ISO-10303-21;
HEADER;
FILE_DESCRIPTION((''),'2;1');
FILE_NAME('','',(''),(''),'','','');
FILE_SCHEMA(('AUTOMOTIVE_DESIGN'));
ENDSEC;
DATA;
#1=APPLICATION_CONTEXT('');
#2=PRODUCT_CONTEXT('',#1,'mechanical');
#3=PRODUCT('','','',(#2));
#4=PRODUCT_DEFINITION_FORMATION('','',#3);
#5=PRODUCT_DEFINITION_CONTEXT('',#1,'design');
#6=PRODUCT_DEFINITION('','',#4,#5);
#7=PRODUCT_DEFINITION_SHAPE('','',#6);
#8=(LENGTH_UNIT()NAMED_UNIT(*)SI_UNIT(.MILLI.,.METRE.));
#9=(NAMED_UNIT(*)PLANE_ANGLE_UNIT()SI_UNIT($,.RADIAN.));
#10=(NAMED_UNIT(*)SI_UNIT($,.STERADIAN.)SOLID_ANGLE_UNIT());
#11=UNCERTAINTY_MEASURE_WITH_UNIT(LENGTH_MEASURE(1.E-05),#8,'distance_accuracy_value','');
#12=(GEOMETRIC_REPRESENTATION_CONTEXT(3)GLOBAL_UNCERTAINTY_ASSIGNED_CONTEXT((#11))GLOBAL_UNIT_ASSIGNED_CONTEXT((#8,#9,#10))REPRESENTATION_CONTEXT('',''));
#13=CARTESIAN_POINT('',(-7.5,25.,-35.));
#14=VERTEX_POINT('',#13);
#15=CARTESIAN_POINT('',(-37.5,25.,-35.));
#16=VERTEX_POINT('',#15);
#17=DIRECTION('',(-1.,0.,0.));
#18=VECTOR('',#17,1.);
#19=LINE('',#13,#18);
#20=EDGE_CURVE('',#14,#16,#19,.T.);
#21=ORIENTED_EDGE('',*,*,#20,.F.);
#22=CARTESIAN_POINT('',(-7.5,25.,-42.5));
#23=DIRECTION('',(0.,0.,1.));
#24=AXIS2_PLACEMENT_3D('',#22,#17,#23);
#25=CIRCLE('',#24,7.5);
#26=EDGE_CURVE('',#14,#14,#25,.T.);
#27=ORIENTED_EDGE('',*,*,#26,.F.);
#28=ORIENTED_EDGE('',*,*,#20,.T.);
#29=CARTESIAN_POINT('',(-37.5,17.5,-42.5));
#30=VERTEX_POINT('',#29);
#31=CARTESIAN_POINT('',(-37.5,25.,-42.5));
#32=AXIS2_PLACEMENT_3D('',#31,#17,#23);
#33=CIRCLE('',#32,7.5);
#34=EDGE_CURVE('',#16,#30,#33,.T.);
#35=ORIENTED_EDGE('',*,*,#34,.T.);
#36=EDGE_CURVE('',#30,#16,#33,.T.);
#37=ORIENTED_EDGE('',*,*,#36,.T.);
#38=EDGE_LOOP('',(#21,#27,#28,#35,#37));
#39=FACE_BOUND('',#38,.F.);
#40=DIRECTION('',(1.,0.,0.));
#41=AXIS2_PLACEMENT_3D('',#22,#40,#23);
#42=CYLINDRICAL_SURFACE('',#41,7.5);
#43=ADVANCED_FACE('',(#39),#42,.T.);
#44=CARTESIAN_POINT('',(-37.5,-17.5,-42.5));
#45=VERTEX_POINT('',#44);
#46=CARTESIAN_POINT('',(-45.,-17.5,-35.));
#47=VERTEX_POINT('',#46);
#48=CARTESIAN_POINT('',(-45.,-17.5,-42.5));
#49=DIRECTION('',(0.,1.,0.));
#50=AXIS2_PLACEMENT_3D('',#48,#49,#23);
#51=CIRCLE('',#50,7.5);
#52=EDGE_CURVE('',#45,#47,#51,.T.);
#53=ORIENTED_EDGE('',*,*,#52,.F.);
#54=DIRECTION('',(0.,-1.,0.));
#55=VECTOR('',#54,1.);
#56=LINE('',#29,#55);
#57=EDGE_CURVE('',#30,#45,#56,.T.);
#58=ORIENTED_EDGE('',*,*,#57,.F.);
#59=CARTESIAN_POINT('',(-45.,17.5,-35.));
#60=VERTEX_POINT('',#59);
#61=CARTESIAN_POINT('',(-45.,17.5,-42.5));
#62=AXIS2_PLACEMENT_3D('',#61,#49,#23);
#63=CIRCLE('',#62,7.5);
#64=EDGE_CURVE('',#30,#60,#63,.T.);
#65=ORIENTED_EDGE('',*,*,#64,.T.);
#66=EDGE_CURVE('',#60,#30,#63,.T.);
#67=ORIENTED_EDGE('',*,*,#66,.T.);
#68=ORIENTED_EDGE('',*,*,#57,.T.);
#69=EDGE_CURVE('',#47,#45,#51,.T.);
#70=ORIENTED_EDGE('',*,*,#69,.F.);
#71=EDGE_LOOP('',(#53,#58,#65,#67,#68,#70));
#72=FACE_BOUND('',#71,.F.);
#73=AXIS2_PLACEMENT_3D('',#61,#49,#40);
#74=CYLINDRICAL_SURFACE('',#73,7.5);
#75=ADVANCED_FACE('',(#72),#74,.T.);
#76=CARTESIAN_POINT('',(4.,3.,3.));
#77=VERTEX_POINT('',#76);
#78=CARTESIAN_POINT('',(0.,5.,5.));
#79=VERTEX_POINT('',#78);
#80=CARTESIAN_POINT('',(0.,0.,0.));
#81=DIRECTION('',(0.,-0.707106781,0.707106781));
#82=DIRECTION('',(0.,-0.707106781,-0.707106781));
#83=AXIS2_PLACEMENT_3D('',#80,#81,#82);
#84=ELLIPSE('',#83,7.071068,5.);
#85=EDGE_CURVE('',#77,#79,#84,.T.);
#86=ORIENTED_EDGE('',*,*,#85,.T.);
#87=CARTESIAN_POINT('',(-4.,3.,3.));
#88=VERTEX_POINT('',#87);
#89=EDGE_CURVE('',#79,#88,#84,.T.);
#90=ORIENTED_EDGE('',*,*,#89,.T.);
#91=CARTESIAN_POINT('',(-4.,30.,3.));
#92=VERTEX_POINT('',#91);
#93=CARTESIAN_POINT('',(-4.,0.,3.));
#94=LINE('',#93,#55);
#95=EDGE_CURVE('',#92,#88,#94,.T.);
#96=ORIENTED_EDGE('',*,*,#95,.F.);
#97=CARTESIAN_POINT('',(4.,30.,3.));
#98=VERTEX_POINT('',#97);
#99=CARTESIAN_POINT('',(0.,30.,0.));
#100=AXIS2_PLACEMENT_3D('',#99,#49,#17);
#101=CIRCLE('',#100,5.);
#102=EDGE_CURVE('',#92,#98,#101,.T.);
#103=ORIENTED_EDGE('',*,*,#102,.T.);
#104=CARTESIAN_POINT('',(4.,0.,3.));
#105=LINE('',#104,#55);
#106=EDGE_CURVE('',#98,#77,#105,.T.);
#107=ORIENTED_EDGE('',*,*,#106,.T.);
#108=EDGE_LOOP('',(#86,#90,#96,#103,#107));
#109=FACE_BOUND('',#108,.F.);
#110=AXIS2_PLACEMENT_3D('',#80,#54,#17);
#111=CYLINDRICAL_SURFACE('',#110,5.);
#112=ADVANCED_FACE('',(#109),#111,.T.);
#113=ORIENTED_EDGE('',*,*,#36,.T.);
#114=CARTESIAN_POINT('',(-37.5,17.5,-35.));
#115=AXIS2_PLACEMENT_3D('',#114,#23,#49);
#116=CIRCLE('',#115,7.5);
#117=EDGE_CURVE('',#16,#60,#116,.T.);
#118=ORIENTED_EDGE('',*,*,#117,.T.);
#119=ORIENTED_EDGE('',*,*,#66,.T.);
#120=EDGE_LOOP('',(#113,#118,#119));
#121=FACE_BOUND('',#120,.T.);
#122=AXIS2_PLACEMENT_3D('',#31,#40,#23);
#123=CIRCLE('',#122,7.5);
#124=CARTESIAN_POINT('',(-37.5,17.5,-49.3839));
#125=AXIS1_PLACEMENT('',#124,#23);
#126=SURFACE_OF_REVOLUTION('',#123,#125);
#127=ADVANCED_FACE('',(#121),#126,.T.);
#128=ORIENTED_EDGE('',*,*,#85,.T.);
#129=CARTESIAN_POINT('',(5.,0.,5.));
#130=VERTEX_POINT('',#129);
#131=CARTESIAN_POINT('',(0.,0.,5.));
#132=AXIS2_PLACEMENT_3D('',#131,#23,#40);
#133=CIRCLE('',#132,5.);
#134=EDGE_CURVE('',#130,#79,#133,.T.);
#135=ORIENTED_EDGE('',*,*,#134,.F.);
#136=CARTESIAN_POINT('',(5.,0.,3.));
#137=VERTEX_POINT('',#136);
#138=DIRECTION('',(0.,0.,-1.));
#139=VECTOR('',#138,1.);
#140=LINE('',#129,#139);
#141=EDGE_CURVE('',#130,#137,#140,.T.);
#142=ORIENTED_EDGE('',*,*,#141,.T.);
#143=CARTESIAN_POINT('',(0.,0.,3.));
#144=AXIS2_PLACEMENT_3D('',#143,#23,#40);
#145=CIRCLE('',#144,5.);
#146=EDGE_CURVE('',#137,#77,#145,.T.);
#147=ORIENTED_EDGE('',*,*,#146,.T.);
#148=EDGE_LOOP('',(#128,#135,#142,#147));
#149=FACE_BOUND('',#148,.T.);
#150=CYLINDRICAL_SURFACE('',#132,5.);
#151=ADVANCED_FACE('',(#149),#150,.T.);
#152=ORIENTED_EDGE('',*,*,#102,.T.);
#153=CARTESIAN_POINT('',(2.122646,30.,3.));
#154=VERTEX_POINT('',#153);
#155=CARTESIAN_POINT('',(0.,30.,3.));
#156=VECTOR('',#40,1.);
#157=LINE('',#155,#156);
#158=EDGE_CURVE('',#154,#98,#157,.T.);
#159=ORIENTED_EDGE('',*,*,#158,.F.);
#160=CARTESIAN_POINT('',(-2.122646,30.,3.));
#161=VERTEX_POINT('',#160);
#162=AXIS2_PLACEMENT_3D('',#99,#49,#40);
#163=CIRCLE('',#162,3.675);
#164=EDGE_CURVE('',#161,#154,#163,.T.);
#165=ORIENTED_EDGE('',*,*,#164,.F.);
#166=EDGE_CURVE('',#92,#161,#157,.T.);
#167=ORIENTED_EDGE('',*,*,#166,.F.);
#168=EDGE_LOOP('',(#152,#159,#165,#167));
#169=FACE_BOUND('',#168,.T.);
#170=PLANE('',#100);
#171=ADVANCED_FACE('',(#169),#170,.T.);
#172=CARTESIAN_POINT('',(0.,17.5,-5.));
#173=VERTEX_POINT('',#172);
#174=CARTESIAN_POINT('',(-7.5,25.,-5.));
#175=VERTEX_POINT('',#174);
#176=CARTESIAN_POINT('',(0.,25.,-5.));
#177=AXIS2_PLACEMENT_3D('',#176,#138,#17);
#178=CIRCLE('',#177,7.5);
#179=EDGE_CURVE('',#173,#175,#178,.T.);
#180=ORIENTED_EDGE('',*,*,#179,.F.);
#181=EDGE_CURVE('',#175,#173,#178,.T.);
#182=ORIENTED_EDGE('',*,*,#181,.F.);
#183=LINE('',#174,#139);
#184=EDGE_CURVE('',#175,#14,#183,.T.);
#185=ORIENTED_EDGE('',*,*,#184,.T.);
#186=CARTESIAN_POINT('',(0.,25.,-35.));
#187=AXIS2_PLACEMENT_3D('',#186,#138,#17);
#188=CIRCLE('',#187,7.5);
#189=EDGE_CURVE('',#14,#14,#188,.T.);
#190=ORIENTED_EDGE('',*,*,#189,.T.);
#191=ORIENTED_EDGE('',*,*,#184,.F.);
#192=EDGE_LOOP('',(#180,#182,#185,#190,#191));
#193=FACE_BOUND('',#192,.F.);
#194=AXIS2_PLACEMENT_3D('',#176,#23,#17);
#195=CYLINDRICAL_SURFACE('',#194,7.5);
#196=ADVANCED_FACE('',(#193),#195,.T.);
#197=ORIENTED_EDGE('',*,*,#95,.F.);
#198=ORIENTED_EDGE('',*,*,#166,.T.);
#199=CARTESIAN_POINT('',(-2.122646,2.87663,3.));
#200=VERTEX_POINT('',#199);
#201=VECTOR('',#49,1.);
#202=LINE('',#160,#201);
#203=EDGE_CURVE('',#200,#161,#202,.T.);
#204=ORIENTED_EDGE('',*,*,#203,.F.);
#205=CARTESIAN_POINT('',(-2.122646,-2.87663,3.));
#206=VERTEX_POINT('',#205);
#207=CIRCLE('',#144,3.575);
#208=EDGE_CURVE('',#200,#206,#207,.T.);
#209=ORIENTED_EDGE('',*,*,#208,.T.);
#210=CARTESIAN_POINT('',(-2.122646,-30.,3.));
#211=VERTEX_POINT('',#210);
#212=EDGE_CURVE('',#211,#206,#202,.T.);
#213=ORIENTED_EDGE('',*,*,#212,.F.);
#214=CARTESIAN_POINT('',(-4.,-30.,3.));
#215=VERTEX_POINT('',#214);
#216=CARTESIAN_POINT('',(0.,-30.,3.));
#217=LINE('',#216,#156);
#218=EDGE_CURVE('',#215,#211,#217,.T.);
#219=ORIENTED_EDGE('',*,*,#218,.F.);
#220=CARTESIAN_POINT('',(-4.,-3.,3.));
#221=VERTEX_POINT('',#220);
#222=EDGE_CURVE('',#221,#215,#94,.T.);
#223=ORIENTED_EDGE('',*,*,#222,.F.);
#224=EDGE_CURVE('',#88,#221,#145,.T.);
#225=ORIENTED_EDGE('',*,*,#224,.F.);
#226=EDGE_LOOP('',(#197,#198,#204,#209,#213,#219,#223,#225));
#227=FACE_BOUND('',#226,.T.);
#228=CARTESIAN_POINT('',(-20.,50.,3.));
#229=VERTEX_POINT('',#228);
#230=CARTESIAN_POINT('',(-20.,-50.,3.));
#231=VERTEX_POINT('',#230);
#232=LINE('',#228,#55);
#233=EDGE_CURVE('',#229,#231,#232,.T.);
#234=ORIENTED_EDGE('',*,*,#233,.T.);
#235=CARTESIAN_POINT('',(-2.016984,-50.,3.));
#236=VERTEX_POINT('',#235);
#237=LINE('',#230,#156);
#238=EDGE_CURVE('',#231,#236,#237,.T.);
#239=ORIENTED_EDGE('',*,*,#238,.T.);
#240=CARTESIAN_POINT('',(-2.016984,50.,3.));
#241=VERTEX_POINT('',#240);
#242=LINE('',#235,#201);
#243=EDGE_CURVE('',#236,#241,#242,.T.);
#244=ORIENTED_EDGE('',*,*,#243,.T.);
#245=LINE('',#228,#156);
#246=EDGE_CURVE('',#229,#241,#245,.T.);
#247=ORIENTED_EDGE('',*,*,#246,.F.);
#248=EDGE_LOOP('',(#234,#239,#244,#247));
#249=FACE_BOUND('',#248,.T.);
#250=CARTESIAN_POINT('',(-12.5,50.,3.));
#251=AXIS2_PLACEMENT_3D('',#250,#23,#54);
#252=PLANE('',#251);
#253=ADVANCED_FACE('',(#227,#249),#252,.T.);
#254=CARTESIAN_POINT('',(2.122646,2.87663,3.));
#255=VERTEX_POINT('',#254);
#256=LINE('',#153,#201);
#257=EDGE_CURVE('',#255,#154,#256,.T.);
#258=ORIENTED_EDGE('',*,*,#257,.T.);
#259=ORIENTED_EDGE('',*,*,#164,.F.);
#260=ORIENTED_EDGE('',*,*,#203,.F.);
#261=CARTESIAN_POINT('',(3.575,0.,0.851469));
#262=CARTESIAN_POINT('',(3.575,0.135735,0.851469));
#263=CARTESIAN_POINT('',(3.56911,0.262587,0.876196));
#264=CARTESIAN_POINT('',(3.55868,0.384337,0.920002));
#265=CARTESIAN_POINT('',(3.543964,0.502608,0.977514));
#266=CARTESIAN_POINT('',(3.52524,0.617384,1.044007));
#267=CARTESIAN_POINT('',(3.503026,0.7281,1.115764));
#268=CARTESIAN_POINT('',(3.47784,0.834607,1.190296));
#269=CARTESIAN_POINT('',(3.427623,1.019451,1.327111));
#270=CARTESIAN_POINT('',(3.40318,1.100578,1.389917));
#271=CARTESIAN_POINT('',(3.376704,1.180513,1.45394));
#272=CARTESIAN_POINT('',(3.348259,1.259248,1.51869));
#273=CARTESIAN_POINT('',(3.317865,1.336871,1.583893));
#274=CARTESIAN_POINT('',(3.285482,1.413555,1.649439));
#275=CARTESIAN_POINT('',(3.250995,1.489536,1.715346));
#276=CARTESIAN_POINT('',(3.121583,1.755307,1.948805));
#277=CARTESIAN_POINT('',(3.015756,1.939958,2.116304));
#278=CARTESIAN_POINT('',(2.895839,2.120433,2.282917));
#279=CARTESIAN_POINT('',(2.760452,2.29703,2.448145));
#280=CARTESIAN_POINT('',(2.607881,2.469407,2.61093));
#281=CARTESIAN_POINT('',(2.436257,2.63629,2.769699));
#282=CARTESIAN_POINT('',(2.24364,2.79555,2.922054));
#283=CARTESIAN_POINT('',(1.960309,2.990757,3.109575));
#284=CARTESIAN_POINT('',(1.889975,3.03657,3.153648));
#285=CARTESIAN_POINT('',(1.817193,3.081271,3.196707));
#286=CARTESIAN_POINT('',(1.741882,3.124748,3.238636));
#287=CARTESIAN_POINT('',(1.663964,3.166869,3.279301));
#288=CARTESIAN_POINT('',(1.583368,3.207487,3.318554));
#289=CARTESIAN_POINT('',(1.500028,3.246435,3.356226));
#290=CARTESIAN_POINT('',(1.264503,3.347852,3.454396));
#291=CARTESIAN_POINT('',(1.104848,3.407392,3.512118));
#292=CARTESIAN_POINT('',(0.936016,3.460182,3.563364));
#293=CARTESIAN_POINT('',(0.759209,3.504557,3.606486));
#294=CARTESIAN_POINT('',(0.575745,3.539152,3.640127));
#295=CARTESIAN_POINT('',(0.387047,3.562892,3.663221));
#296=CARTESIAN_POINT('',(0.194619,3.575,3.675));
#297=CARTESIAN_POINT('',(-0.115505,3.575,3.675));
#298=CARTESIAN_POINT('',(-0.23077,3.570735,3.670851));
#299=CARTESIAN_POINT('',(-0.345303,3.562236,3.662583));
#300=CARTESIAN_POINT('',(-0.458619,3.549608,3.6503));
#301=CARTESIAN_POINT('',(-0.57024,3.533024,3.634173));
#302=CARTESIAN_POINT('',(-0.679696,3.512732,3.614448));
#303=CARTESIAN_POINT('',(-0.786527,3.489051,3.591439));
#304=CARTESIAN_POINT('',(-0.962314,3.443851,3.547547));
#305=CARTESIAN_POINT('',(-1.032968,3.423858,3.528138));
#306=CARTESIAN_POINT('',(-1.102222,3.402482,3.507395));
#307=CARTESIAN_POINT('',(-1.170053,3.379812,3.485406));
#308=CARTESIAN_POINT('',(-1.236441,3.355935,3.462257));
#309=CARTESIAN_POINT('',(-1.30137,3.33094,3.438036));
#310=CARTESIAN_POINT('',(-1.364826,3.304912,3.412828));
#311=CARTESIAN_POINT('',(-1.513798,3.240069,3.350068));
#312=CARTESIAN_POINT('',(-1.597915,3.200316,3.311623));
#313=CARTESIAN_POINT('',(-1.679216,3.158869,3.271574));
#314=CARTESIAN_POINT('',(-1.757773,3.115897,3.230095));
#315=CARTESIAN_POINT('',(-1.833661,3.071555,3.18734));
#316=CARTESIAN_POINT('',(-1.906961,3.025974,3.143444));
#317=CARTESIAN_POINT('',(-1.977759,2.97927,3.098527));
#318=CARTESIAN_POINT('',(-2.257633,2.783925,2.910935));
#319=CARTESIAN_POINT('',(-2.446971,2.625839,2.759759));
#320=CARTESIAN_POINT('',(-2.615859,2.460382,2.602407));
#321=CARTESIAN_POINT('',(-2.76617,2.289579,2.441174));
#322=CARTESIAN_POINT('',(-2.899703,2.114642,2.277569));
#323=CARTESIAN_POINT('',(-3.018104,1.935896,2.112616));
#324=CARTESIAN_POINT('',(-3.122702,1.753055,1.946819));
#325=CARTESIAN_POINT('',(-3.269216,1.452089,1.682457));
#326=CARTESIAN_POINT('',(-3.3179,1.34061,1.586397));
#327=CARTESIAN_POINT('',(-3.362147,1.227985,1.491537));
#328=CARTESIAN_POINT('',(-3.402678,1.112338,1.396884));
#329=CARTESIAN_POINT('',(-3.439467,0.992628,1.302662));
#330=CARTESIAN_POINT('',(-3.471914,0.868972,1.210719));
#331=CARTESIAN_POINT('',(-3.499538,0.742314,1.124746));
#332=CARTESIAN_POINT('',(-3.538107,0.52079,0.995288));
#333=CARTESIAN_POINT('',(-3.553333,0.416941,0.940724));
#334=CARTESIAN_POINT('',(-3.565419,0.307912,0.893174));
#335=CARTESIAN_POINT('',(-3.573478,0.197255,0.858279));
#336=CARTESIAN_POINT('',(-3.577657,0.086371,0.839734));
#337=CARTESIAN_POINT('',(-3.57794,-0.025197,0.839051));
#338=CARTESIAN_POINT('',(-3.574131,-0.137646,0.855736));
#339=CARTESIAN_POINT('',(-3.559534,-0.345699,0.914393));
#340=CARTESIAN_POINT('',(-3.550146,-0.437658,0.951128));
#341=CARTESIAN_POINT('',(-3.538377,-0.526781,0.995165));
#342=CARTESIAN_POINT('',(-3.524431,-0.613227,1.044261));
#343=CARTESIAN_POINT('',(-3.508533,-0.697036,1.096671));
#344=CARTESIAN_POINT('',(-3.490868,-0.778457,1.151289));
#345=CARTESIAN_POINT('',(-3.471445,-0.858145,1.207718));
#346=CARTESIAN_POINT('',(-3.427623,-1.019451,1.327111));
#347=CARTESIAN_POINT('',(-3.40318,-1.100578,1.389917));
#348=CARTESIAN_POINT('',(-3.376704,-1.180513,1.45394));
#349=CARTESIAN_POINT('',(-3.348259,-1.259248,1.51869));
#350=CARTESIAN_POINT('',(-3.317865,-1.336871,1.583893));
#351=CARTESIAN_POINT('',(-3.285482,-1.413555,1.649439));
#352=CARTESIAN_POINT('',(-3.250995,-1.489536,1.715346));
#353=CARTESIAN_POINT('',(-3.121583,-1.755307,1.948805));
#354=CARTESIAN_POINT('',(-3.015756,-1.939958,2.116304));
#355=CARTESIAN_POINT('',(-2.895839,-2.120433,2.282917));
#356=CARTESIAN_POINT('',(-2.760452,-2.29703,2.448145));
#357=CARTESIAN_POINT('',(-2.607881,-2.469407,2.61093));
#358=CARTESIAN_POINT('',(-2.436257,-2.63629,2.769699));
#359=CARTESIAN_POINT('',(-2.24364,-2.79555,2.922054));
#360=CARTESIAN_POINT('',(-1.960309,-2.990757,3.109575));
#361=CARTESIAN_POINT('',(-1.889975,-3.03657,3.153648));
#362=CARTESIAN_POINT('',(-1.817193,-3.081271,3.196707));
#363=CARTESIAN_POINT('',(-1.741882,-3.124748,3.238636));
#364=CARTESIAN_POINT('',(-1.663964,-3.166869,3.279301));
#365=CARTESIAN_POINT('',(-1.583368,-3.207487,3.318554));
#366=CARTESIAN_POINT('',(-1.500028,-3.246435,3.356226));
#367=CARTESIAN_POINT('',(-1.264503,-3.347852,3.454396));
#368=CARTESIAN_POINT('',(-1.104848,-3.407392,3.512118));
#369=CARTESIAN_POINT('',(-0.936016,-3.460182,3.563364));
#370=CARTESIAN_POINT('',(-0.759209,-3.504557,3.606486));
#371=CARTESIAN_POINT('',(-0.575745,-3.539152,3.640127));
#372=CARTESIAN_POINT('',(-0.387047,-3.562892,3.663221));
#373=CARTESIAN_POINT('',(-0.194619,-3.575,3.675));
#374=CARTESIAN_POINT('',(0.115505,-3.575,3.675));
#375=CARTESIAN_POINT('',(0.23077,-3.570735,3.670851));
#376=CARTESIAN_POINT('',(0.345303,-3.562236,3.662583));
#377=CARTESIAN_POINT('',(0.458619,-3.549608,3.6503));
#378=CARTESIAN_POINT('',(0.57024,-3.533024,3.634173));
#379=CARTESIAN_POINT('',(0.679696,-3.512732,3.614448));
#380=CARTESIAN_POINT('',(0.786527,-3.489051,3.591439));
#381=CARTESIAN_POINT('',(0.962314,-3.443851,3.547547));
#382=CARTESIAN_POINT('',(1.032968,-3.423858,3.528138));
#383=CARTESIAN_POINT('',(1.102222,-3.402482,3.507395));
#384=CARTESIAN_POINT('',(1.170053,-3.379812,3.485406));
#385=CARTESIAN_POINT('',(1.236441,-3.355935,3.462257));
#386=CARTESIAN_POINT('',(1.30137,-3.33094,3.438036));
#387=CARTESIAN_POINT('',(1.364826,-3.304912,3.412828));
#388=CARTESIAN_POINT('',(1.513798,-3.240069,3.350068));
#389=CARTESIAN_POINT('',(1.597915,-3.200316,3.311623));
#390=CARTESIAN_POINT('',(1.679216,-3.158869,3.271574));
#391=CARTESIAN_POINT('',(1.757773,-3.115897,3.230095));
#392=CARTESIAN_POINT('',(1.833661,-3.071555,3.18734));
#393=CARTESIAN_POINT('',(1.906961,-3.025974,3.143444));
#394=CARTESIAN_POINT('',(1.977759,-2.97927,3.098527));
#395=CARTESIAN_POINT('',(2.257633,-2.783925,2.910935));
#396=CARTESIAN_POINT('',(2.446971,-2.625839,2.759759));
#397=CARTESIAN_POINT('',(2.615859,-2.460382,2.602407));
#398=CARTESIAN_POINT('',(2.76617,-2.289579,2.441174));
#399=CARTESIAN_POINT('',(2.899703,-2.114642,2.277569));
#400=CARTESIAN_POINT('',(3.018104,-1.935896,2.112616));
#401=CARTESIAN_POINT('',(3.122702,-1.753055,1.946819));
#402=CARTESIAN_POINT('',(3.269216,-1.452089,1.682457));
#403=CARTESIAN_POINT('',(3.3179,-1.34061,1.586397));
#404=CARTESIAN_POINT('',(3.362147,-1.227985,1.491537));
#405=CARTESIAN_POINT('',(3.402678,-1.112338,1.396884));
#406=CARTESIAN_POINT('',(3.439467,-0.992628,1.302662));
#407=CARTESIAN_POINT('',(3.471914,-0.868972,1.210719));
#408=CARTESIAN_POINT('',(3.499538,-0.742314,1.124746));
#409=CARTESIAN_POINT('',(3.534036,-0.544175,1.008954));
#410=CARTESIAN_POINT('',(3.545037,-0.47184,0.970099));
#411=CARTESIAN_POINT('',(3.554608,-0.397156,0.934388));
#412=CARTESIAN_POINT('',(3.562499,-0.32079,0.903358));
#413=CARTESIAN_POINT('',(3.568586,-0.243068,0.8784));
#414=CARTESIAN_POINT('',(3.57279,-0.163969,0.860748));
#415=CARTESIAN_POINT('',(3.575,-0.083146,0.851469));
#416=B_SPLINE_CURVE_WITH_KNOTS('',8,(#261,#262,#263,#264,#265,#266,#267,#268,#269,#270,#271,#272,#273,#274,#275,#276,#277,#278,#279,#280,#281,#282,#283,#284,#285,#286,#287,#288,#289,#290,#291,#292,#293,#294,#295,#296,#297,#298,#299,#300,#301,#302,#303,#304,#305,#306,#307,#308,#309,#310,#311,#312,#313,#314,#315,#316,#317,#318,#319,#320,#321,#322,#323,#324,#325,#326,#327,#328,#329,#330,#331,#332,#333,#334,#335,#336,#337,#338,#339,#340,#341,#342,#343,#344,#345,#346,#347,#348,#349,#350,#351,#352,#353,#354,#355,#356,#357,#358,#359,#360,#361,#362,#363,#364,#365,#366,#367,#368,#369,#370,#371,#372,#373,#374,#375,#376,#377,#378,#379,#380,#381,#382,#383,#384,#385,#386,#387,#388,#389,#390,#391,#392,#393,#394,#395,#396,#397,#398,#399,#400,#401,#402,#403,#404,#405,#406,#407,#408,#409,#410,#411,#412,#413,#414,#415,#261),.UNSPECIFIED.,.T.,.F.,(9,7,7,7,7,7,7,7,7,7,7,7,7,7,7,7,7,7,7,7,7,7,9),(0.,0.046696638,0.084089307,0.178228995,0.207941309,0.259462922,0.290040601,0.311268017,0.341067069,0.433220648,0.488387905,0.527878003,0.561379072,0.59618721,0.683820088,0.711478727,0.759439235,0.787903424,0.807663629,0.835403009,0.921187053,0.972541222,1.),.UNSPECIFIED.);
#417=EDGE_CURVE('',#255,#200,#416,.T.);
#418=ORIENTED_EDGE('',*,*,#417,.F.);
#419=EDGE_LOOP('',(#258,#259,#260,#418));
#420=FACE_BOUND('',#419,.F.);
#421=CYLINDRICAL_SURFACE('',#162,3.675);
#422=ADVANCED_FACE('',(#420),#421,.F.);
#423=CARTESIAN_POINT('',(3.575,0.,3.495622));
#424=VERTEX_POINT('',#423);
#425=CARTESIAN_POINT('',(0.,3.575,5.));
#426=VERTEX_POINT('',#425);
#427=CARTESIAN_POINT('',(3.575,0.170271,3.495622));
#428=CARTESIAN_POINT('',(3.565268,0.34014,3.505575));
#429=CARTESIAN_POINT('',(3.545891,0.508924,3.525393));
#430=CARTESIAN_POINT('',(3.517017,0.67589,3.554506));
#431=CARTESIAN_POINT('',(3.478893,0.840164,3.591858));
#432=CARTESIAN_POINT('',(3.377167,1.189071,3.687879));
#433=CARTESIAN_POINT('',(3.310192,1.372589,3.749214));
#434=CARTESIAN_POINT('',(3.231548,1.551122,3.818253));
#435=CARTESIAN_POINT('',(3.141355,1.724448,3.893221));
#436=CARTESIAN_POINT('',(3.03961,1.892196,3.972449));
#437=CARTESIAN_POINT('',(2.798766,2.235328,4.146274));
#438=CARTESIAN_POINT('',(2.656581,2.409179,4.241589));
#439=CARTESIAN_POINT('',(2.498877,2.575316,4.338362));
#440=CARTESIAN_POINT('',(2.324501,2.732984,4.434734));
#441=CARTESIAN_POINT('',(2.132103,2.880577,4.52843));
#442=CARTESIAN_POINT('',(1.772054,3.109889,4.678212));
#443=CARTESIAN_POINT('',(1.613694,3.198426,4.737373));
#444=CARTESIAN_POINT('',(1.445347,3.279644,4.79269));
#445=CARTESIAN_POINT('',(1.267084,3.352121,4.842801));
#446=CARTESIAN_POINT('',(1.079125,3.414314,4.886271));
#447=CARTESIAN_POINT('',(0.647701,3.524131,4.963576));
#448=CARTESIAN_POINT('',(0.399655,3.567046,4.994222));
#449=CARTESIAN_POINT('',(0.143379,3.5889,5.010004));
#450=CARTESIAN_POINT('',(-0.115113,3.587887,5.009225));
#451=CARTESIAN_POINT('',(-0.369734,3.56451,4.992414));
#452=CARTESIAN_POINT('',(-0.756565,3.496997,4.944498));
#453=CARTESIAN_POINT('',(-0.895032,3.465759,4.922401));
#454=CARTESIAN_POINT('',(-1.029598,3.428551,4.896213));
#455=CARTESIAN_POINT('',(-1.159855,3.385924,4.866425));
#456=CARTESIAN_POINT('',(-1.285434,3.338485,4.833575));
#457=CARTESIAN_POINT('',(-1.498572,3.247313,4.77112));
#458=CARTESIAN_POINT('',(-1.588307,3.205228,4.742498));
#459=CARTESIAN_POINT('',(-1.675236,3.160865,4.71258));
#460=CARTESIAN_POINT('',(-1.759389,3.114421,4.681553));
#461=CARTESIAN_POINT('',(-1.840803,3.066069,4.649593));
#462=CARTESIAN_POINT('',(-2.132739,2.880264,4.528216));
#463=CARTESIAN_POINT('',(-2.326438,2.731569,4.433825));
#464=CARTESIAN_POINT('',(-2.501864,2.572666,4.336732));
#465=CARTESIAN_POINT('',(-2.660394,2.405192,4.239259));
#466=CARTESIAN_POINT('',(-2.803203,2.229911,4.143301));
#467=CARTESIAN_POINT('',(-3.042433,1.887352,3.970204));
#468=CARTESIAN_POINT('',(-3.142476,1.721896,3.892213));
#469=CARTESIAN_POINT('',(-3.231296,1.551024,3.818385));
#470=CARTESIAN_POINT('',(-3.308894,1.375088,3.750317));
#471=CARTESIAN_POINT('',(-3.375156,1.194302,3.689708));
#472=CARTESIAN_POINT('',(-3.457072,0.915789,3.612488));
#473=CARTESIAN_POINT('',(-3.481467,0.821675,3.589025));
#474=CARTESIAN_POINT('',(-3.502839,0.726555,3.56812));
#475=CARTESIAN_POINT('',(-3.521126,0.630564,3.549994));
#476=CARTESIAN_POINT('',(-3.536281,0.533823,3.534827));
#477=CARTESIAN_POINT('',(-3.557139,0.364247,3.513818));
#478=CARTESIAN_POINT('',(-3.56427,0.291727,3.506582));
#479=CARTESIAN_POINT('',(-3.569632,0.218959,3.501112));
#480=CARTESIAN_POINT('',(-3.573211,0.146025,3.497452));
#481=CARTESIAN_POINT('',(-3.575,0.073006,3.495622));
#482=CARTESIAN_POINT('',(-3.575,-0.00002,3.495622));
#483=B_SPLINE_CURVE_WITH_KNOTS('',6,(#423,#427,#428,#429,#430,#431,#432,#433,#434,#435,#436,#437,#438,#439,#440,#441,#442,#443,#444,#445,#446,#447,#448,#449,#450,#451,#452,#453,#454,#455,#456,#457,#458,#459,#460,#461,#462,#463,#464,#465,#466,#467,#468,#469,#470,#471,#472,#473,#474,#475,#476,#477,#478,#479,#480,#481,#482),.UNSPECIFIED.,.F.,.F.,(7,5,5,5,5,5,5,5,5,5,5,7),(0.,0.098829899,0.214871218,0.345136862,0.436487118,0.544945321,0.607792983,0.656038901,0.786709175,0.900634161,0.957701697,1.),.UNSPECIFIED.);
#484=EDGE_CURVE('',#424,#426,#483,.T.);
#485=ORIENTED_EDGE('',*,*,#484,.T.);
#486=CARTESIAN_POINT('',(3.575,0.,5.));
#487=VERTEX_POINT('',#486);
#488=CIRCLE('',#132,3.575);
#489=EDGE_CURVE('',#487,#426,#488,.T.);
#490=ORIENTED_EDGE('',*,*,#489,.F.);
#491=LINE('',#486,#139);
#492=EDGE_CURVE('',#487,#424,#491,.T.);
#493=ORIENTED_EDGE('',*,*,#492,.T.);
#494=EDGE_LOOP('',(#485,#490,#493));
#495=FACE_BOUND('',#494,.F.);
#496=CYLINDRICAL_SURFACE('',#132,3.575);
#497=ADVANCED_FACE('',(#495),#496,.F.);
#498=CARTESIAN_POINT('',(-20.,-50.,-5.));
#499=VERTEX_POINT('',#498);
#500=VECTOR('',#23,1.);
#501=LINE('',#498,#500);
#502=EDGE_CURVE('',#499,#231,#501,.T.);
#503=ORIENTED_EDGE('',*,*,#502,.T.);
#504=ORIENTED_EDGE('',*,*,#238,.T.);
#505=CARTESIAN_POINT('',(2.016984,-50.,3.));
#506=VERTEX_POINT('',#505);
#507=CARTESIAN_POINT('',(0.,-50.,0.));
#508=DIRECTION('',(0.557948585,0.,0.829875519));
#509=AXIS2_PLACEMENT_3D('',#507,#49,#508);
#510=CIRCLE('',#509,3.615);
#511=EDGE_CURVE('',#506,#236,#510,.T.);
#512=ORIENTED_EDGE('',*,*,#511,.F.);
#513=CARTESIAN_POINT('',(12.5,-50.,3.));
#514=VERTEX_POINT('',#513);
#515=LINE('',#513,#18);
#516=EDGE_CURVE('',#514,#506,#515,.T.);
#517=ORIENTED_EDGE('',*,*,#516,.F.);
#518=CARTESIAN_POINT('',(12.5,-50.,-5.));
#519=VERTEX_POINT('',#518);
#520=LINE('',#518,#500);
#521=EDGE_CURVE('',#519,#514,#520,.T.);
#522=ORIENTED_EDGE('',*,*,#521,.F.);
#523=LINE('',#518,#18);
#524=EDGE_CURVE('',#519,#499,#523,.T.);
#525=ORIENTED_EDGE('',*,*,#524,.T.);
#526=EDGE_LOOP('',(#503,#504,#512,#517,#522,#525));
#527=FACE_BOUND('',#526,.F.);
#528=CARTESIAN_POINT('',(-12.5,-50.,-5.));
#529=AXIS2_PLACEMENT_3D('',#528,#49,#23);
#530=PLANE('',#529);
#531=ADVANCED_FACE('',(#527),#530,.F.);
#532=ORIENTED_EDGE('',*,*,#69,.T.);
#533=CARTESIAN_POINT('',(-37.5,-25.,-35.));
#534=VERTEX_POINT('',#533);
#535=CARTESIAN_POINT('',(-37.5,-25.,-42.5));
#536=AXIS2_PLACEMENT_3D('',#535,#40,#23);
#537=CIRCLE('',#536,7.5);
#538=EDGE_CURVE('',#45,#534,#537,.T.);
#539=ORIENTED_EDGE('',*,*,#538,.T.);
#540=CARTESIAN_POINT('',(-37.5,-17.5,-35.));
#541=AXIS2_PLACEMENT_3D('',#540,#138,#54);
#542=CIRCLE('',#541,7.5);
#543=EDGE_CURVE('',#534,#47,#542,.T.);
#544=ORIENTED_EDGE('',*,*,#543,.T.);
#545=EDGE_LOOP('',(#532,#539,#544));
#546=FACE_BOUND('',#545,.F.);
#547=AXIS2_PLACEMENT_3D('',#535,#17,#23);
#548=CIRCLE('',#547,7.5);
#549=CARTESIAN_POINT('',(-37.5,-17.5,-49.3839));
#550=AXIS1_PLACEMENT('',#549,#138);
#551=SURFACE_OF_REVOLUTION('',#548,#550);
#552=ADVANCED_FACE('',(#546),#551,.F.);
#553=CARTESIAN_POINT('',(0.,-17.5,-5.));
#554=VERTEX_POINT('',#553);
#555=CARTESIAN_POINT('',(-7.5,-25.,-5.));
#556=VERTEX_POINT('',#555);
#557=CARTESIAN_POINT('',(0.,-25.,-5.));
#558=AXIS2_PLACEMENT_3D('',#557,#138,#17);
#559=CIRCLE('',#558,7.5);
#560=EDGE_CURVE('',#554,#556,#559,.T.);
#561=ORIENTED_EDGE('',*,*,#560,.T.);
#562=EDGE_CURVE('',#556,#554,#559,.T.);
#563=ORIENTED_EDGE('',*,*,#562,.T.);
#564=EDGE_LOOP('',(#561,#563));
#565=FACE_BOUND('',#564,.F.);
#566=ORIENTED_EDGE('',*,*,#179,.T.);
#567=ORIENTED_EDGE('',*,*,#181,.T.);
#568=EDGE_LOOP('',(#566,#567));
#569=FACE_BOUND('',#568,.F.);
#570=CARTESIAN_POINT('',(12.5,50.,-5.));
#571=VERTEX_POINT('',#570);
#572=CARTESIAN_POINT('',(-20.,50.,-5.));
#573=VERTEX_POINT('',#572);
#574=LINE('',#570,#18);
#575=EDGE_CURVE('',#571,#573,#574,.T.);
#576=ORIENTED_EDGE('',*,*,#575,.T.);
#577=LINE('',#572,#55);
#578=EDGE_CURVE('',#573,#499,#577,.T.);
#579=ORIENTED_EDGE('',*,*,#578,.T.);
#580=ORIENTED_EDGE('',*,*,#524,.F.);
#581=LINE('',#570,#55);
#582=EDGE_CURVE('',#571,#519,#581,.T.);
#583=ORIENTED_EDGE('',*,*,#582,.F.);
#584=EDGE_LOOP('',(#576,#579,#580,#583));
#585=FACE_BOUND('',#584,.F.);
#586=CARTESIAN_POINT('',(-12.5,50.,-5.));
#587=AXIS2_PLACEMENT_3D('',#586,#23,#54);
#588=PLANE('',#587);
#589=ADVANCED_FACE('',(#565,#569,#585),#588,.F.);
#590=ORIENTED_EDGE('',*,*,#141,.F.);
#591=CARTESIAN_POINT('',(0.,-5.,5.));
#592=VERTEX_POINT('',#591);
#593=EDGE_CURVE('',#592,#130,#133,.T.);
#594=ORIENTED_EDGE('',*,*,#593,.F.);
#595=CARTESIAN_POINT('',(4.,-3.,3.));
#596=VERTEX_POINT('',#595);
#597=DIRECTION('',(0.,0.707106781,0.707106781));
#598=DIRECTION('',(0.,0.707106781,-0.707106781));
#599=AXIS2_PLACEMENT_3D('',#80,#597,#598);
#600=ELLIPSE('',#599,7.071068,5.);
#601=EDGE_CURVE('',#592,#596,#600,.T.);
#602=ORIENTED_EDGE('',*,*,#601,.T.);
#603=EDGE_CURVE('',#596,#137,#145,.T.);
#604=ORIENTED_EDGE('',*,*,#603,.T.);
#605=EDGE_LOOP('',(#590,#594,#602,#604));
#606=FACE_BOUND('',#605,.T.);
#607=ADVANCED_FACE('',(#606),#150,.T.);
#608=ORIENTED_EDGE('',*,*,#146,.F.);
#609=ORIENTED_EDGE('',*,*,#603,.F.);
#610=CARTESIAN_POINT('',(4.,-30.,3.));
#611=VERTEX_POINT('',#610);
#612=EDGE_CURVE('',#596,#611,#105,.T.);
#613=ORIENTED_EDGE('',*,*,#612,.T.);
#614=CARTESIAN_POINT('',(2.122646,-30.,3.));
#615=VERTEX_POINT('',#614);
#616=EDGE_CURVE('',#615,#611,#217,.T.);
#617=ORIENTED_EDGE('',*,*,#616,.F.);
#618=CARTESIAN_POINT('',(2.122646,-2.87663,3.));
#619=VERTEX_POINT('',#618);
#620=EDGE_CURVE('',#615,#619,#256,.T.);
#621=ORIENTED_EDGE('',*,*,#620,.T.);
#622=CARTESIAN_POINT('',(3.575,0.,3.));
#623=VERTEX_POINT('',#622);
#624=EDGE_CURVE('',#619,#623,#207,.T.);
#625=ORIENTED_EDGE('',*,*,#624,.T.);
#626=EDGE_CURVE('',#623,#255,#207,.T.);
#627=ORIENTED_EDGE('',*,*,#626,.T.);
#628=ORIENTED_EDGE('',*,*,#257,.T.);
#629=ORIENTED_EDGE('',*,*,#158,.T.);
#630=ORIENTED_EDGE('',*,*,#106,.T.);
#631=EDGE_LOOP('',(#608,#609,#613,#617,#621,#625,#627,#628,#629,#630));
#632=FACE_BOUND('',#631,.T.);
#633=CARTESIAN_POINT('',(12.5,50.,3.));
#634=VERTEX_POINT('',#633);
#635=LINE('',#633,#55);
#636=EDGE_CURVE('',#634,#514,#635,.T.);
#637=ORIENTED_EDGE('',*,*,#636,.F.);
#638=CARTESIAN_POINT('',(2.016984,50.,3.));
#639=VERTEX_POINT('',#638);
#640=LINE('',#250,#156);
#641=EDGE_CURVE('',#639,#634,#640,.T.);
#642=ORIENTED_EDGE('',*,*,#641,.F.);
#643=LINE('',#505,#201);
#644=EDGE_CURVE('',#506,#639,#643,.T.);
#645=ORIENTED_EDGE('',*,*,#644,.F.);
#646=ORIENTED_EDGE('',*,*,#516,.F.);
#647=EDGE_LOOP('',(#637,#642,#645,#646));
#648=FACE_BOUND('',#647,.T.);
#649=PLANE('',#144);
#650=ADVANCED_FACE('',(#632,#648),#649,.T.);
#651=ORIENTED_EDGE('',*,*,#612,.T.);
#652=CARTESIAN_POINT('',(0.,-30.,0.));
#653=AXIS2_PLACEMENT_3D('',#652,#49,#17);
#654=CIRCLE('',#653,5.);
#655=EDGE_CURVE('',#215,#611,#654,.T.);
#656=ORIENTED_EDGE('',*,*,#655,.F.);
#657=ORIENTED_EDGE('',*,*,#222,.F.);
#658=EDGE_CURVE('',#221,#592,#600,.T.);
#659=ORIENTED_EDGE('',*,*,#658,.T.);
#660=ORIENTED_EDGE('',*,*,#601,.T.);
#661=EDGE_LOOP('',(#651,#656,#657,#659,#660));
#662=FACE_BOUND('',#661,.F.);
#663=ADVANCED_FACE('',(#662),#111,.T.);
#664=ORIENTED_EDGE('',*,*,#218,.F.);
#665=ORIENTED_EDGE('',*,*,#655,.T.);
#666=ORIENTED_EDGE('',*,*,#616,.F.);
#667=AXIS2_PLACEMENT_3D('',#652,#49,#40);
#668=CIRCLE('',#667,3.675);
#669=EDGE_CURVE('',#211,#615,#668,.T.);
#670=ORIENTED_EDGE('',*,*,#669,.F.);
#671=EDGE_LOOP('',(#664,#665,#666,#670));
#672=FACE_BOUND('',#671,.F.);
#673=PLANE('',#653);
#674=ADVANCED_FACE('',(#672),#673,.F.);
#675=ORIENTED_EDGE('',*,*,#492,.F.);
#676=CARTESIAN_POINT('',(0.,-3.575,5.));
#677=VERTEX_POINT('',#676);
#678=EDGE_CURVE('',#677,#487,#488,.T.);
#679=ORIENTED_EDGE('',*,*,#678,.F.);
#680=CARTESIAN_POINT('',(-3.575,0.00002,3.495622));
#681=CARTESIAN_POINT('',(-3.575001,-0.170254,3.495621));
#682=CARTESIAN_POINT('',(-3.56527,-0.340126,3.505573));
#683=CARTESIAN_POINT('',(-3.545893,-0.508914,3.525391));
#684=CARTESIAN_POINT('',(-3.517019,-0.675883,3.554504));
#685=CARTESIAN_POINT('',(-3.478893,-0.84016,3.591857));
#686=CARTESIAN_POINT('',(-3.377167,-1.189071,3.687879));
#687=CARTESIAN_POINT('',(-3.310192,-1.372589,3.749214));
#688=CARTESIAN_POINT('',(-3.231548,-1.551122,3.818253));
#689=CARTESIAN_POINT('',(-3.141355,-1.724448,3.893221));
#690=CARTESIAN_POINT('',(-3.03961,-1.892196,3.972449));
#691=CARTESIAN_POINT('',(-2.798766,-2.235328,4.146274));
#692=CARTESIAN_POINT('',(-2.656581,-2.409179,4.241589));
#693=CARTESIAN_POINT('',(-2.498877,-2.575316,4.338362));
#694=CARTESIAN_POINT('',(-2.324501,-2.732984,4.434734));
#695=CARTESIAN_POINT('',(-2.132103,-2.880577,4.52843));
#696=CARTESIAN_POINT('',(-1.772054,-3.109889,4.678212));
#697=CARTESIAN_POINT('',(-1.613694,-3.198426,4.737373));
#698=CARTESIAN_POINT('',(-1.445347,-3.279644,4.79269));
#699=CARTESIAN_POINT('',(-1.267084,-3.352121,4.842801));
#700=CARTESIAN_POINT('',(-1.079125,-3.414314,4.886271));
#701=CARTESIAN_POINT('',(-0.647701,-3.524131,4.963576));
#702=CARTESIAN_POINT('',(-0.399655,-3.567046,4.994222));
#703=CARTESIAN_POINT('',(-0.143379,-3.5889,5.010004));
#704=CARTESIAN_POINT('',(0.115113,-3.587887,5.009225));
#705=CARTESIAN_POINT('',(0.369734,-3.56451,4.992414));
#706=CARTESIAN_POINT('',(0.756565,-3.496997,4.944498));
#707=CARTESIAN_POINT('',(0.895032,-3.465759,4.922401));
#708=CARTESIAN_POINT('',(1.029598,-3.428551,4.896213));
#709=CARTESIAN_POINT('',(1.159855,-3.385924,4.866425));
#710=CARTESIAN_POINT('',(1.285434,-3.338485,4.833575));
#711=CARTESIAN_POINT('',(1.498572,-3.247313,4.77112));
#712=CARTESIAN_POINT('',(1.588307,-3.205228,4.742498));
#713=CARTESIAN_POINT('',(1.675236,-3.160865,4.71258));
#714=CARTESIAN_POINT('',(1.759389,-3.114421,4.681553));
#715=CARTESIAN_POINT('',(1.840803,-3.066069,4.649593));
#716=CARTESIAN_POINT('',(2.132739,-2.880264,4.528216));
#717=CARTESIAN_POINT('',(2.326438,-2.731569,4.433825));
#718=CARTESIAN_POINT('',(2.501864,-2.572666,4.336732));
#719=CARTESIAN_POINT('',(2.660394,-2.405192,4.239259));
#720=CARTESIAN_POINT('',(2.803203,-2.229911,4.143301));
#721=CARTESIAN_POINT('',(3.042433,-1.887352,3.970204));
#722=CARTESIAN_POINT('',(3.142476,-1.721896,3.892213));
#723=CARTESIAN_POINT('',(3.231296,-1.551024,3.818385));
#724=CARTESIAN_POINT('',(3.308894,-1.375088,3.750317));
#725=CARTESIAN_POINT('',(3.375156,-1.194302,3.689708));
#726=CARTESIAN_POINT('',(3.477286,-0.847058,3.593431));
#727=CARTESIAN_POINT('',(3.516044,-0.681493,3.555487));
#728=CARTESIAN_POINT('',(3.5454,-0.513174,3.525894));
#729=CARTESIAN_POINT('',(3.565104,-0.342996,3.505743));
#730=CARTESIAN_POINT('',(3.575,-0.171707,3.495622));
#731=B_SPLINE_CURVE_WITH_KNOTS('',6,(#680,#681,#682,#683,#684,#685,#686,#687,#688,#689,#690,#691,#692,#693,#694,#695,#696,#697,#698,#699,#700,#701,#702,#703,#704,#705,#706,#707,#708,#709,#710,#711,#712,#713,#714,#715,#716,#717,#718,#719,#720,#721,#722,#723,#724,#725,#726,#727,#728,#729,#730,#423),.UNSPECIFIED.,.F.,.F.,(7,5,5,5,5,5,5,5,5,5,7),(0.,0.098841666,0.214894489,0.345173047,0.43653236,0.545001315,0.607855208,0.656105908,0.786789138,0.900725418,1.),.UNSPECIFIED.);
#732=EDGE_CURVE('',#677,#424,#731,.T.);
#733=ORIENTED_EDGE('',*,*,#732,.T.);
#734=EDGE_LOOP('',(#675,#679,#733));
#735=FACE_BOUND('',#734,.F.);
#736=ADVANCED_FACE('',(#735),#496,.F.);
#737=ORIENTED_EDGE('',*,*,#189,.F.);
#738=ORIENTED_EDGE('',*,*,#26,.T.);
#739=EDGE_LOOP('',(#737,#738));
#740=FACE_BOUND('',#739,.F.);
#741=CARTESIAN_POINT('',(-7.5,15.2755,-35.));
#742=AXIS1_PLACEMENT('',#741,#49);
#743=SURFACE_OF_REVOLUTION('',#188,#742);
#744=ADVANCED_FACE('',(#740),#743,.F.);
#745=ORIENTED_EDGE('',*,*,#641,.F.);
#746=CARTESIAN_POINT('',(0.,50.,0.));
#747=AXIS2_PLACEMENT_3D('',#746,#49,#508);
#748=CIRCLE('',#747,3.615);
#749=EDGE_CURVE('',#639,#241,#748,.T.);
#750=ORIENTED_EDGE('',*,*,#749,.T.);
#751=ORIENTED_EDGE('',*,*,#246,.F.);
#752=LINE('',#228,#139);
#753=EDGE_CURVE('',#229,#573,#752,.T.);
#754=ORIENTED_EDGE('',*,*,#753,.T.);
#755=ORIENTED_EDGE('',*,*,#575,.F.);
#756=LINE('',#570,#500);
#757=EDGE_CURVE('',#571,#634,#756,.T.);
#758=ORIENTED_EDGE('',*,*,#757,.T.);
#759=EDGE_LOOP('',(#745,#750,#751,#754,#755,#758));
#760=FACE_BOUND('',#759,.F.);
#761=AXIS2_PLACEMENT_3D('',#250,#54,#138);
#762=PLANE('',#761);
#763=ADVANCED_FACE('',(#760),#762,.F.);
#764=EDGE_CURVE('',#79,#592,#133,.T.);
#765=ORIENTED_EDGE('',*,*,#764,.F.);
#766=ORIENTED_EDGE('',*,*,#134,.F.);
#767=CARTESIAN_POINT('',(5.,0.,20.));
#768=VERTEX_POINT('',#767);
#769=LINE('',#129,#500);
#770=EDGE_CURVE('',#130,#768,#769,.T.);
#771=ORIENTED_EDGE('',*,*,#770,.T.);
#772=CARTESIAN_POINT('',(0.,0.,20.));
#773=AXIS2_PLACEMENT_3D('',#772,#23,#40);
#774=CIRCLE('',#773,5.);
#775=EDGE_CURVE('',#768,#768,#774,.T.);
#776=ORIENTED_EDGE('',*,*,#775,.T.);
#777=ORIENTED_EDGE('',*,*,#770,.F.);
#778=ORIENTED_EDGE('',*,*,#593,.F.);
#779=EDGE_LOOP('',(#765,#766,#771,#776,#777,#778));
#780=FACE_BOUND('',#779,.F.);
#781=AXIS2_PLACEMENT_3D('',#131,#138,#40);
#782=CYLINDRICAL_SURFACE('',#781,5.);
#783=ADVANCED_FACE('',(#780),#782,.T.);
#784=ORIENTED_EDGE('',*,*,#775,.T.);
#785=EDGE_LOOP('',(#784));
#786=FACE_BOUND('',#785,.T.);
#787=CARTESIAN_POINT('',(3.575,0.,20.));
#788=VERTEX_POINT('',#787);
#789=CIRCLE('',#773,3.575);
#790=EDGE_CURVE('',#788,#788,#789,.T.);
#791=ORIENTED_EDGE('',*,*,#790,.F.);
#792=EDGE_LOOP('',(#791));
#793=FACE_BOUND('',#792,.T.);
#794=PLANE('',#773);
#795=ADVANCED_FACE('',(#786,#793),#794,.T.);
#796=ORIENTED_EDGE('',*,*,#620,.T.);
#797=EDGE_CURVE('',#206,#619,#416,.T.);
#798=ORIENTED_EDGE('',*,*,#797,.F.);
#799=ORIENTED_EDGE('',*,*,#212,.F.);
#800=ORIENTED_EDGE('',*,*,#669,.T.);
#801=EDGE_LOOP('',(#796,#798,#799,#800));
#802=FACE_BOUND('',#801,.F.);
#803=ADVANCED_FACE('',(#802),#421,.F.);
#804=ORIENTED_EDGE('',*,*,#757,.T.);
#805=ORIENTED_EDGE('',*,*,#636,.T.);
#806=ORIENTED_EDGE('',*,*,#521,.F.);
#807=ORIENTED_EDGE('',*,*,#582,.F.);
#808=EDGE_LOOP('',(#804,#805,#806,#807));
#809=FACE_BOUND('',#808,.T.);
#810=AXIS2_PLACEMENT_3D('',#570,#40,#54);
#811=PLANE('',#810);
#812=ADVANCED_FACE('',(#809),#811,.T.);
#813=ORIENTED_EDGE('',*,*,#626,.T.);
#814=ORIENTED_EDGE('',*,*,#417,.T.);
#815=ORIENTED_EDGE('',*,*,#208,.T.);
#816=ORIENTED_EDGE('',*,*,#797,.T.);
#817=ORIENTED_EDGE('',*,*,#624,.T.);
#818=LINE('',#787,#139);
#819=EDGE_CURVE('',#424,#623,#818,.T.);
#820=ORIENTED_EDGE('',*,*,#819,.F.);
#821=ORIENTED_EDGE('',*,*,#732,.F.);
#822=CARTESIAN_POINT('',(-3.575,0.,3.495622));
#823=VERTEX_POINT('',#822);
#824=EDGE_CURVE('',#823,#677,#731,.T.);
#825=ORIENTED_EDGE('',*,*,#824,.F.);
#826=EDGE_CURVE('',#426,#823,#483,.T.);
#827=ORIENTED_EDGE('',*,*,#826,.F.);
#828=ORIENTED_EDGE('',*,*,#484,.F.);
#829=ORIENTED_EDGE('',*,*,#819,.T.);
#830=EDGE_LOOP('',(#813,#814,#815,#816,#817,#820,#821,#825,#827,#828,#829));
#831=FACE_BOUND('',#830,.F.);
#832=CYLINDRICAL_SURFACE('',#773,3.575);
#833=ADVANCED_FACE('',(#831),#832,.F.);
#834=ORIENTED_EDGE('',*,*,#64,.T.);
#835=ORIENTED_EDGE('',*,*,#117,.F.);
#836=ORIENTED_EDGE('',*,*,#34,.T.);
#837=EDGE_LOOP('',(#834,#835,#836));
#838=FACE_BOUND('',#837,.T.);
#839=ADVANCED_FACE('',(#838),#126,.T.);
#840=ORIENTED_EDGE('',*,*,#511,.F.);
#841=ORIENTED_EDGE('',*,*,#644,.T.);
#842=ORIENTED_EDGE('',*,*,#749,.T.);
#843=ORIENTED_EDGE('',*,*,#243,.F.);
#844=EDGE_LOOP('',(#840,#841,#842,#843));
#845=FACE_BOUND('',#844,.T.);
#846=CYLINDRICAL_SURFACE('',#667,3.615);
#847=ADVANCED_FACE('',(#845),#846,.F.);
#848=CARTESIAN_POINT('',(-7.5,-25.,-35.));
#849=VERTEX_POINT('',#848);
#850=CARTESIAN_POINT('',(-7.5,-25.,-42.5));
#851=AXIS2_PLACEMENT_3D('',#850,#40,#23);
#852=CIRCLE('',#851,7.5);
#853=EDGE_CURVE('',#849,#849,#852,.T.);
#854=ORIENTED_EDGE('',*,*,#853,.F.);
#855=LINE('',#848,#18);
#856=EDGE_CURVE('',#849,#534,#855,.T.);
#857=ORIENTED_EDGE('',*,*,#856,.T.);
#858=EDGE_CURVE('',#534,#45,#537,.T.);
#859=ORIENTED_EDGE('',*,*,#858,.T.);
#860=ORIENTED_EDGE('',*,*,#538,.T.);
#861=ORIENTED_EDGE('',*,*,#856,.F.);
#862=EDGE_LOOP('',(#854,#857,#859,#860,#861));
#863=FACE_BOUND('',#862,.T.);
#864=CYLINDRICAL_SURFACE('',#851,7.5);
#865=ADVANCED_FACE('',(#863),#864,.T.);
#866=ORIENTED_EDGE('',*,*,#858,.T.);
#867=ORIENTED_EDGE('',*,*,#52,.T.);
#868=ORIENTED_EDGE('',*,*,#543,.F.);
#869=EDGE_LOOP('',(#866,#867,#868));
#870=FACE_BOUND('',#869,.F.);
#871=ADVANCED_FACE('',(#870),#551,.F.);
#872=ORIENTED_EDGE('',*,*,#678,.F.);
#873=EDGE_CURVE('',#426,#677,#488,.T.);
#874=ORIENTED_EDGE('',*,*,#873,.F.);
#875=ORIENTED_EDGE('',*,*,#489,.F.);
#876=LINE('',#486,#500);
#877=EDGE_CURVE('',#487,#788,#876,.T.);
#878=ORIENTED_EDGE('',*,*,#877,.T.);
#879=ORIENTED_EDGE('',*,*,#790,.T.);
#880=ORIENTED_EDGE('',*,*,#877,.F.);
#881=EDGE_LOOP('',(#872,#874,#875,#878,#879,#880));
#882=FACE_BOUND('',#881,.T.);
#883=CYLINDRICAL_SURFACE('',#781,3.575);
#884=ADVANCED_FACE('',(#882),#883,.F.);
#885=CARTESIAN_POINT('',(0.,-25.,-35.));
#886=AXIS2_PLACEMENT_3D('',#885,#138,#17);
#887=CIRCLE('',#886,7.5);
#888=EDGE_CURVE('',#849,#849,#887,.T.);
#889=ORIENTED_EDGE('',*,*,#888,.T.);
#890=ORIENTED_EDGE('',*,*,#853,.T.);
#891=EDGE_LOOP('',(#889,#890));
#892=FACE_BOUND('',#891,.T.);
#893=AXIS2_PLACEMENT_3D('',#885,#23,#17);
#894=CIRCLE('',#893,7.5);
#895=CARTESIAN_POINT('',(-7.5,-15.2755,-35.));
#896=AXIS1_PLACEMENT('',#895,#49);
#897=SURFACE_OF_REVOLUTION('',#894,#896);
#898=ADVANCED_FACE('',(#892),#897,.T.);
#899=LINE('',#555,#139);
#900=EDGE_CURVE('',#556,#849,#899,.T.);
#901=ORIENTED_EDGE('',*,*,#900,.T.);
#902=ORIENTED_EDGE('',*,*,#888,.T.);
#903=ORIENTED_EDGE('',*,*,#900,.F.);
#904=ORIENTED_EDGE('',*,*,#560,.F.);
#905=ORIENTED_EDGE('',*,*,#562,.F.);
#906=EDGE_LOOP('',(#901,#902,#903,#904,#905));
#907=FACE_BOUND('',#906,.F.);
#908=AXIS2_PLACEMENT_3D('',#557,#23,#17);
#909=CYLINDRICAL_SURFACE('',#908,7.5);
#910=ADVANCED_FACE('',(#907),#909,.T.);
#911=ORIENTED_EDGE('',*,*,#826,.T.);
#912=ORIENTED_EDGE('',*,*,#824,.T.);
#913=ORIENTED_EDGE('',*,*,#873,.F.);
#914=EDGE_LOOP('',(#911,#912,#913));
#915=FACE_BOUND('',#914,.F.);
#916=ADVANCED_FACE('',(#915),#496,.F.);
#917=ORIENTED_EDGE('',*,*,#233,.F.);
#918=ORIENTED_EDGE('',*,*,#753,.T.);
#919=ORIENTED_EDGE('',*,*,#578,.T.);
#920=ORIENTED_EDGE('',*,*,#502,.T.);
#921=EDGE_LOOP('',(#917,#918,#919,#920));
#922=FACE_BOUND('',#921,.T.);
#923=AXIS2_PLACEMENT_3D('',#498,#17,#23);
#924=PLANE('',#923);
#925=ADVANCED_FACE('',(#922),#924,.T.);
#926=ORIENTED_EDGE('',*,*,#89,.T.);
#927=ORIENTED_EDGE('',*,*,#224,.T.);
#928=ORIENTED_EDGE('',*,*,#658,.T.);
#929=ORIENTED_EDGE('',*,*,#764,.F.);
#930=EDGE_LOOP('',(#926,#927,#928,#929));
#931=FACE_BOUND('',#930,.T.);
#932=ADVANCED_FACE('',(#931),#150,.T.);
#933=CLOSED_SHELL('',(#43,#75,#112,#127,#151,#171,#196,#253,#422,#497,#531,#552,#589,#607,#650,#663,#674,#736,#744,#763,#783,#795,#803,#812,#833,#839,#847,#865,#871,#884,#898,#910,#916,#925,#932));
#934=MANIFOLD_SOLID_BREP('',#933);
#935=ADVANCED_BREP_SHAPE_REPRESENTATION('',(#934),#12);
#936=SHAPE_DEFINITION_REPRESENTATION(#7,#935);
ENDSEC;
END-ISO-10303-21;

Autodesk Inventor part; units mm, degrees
ref_plane "YZ Plane" through (0, 0, 0) normal (1, 0, 0) x (0, 1, 0)
ref_plane "XZ Plane" through (0, 0, 0) normal (0, 1, 0) x (-1, 0, 0)
sketch "Sketch1" plane through (0, 0, 0) normal (0, 1, 0) x (-1, 0, 0)
  circle A0 centre (0, 0) radius 3.575
  circle A1 centre (0, 0) radius 5
  dimension "d0" = 7.15
  dimension "d1" = 10
extrude "Extrusion1" add sketch "Sketch1" along normal mid plane 60
ref_plane "Work Plane1" through (0, 0, 5) normal (0, 0, 1) x (1, 0, 0)
sketch "Sketch2" plane through (0, 0, 5) normal (0, 0, 1) x (1, 0, 0)
  circle A0 centre (0, 0) radius 3.575
  circle A1 centre (0, 0) radius 5
  line L0 (5, 30) -> (-5, 30) projected
  dimension "d4" = 7.15
  dimension "d5" = 10
  dimension "d22" = 0
extrude "Extrusion2" add sketch "Sketch2" along normal blind 15 and the other way blind 5
sketch "Sketch3" plane through (0, 0, 20) normal (0, 0, 1) x (1, 0, 0)
  circle A0 centre (0, 0) radius 3.575
extrude "Extrusion3" cut sketch "Sketch3" against normal up to surface
sketch "Sketch4" plane through (0, 30, 0) normal (0, 1, 0) x (1, 0, 0)
  circle A0 centre (0, 0) radius 3.675
  dimension "d13" = 7.35
extrude "Extrusion4" cut sketch "Sketch4" against normal through all
ref_plane "Work Plane3" through (0, 0, -5) normal (0, 0, 1) x (1, 0, 0)
sketch "Sketch6" plane through (0, 0, -5) normal (0, 0, 1) x (1, 0, 0)
  line L0 (12.5, -50) -> (-12.5, -50)
  line L1 (-12.5, -50) -> (-12.5, 50)
  line L2 (-12.5, 50) -> (12.5, 50)
  line L3 (12.5, 50) -> (12.5, -50)
  line L4 (12.5, -50) -> (-12.5, 50) construction
  line L5 (-12.5, -50) -> (12.5, 50) construction
  point P0 (0, 0)
  dimension "d23" = 25
  dimension "d24" = 100
extrude "Extrusion6" add sketch "Sketch6" along normal blind 8
sketch "Sketch7" plane through (0, -30, 0) normal (0, -1, 0) x (1, 0, 0)
  circle A0 centre (0, 0) radius 3.615
  dimension "d27" = 7.23
extrude "Extrusion7" cut sketch "Sketch7" along normal through all both and the other way through all
sketch "Sketch8" plane through (0, 0, -5) normal (0, 0, -1) x (-1, 0, 0)
  circle A0 centre (0, -25) radius 7.5
  circle A1 centre (0, 25) radius 7.5
  point P0 (0, 0)
  dimension "d30" = 15
  dimension "d31" = 15
  dimension "d32" = 50
  dimension "d33" = 25
extrude "Extrusion8" add sketch "Sketch8" along normal blind 30
sketch "Sketch9" plane through (0, 25, -35) normal (0, 0, -1) x (-1, 0, 0)
  circle A0 centre (0, 0) radius 7.5
  line L0 (7.5, 0) -> (7.5, -9.7245)
  line L1 (7.5, -9.7245) -> (7.5, 12.7829)
  point P0 (0, -25)
revolve "Revolution1" add sketch "Sketch9" angle 90 about axis through (-7.5, 15.2755, -35) along (0, 1, 0)
mirror "Mirror1" about plane through (0, 0, 0) normal (0, 1, 0) of "Revolution1"
sketch "Sketch10" plane through (-7.5, 25, -42.5) normal (-1, 0, 0) x (0, 0, 1)
  circle A0 centre (0, 0) radius 7.5
  point P0 (42.5, -25)
  dimension "d37" = 15
extrude "Extrusion9" add sketch "Sketch10" along normal blind 30
mirror "Mirror2" about plane through (0, 0, 0) normal (0, 1, 0) of "Extrusion9"
sketch "Sketch11" plane through (-37.5, 25, -42.5) normal (-1, 0, 0) x (0, 0, 1)
  circle A0 centre (0, 0) radius 7.5
  circle A1 centre (0, 0) radius 7.5 projected
  line L0 (0, -7.5) -> (-9.6615, -7.5)
  line L1 (-9.6615, -7.5) -> (9.5932, -7.5)
  point P0 (42.5, -25)
  dimension "d40" = 15
sketch "Sketch12" plane through (-37.5, -25, -42.5) normal (-1, 0, 0) x (0, 0, 1)
  circle A0 centre (0, 0) radius 7.5
  line L0 (0, 7.5) -> (-6.8839, 7.5)
  circle A1 centre (0, 0) radius 7.5 projected
  line L1 (-6.8839, 7.5) -> (7.5, 7.5)
  point P0 (42.5, 25)
  dimension "d41" = 15
revolve "Revolution2" add sketch "Sketch12" angle 90 about axis through (-37.5, -17.5, -49.3839) along (0, 0, -1)
mirror "Mirror3" about plane through (0, 0, 0) normal (0, 1, 0) of "Revolution2"
sketch "Sketch13" plane through (-45, 17.5, -42.5) normal (0, -1, 0) x (1, 0, 0)
  circle A0 centre (0, 0) radius 7.5
  point P0 (45, 42.5)
  dimension "d43" = 15
extrude "Extrusion10" add sketch "Sketch13" along normal up to surface (35 mm away)
sketch "Sketch14" plane through (-12.5, -50, -5) normal (-1, 0, 0) x (0, 0, 1)
  line L0 (0, 100) -> (0, 0) projected
  line L1 (8, 100) -> (8, 0) projected
  line L2 (0, 0) -> (8, 0)
  line L3 (8, 0) -> (8, 100)
  line L4 (8, 100) -> (0, 100)
  line L5 (0, 100) -> (0, 0)
  point P0 (5, 50)
extrude "Extrusion11" add sketch "Sketch14" along normal blind 7.5
sketch "Sketch5" plane through (0, 0, -5) normal (0, 0, 1) x (1, 0, 0)
  line L0 (5, 15) -> (-5, 15) projected
  line L1 (-5, -15) -> (5, -15) projected
  line L2 (2, 15) -> (-2, 15)
  line L3 (-2, 15) -> (-2, -15)
  line L4 (-2, -15) -> (2, -15)
  line L5 (2, -15) -> (2, 15)
  point P0 (0, 0)
  dimension "d16" = 4
  dimension "d17" = 2
properties part number "T-joint_hand"
